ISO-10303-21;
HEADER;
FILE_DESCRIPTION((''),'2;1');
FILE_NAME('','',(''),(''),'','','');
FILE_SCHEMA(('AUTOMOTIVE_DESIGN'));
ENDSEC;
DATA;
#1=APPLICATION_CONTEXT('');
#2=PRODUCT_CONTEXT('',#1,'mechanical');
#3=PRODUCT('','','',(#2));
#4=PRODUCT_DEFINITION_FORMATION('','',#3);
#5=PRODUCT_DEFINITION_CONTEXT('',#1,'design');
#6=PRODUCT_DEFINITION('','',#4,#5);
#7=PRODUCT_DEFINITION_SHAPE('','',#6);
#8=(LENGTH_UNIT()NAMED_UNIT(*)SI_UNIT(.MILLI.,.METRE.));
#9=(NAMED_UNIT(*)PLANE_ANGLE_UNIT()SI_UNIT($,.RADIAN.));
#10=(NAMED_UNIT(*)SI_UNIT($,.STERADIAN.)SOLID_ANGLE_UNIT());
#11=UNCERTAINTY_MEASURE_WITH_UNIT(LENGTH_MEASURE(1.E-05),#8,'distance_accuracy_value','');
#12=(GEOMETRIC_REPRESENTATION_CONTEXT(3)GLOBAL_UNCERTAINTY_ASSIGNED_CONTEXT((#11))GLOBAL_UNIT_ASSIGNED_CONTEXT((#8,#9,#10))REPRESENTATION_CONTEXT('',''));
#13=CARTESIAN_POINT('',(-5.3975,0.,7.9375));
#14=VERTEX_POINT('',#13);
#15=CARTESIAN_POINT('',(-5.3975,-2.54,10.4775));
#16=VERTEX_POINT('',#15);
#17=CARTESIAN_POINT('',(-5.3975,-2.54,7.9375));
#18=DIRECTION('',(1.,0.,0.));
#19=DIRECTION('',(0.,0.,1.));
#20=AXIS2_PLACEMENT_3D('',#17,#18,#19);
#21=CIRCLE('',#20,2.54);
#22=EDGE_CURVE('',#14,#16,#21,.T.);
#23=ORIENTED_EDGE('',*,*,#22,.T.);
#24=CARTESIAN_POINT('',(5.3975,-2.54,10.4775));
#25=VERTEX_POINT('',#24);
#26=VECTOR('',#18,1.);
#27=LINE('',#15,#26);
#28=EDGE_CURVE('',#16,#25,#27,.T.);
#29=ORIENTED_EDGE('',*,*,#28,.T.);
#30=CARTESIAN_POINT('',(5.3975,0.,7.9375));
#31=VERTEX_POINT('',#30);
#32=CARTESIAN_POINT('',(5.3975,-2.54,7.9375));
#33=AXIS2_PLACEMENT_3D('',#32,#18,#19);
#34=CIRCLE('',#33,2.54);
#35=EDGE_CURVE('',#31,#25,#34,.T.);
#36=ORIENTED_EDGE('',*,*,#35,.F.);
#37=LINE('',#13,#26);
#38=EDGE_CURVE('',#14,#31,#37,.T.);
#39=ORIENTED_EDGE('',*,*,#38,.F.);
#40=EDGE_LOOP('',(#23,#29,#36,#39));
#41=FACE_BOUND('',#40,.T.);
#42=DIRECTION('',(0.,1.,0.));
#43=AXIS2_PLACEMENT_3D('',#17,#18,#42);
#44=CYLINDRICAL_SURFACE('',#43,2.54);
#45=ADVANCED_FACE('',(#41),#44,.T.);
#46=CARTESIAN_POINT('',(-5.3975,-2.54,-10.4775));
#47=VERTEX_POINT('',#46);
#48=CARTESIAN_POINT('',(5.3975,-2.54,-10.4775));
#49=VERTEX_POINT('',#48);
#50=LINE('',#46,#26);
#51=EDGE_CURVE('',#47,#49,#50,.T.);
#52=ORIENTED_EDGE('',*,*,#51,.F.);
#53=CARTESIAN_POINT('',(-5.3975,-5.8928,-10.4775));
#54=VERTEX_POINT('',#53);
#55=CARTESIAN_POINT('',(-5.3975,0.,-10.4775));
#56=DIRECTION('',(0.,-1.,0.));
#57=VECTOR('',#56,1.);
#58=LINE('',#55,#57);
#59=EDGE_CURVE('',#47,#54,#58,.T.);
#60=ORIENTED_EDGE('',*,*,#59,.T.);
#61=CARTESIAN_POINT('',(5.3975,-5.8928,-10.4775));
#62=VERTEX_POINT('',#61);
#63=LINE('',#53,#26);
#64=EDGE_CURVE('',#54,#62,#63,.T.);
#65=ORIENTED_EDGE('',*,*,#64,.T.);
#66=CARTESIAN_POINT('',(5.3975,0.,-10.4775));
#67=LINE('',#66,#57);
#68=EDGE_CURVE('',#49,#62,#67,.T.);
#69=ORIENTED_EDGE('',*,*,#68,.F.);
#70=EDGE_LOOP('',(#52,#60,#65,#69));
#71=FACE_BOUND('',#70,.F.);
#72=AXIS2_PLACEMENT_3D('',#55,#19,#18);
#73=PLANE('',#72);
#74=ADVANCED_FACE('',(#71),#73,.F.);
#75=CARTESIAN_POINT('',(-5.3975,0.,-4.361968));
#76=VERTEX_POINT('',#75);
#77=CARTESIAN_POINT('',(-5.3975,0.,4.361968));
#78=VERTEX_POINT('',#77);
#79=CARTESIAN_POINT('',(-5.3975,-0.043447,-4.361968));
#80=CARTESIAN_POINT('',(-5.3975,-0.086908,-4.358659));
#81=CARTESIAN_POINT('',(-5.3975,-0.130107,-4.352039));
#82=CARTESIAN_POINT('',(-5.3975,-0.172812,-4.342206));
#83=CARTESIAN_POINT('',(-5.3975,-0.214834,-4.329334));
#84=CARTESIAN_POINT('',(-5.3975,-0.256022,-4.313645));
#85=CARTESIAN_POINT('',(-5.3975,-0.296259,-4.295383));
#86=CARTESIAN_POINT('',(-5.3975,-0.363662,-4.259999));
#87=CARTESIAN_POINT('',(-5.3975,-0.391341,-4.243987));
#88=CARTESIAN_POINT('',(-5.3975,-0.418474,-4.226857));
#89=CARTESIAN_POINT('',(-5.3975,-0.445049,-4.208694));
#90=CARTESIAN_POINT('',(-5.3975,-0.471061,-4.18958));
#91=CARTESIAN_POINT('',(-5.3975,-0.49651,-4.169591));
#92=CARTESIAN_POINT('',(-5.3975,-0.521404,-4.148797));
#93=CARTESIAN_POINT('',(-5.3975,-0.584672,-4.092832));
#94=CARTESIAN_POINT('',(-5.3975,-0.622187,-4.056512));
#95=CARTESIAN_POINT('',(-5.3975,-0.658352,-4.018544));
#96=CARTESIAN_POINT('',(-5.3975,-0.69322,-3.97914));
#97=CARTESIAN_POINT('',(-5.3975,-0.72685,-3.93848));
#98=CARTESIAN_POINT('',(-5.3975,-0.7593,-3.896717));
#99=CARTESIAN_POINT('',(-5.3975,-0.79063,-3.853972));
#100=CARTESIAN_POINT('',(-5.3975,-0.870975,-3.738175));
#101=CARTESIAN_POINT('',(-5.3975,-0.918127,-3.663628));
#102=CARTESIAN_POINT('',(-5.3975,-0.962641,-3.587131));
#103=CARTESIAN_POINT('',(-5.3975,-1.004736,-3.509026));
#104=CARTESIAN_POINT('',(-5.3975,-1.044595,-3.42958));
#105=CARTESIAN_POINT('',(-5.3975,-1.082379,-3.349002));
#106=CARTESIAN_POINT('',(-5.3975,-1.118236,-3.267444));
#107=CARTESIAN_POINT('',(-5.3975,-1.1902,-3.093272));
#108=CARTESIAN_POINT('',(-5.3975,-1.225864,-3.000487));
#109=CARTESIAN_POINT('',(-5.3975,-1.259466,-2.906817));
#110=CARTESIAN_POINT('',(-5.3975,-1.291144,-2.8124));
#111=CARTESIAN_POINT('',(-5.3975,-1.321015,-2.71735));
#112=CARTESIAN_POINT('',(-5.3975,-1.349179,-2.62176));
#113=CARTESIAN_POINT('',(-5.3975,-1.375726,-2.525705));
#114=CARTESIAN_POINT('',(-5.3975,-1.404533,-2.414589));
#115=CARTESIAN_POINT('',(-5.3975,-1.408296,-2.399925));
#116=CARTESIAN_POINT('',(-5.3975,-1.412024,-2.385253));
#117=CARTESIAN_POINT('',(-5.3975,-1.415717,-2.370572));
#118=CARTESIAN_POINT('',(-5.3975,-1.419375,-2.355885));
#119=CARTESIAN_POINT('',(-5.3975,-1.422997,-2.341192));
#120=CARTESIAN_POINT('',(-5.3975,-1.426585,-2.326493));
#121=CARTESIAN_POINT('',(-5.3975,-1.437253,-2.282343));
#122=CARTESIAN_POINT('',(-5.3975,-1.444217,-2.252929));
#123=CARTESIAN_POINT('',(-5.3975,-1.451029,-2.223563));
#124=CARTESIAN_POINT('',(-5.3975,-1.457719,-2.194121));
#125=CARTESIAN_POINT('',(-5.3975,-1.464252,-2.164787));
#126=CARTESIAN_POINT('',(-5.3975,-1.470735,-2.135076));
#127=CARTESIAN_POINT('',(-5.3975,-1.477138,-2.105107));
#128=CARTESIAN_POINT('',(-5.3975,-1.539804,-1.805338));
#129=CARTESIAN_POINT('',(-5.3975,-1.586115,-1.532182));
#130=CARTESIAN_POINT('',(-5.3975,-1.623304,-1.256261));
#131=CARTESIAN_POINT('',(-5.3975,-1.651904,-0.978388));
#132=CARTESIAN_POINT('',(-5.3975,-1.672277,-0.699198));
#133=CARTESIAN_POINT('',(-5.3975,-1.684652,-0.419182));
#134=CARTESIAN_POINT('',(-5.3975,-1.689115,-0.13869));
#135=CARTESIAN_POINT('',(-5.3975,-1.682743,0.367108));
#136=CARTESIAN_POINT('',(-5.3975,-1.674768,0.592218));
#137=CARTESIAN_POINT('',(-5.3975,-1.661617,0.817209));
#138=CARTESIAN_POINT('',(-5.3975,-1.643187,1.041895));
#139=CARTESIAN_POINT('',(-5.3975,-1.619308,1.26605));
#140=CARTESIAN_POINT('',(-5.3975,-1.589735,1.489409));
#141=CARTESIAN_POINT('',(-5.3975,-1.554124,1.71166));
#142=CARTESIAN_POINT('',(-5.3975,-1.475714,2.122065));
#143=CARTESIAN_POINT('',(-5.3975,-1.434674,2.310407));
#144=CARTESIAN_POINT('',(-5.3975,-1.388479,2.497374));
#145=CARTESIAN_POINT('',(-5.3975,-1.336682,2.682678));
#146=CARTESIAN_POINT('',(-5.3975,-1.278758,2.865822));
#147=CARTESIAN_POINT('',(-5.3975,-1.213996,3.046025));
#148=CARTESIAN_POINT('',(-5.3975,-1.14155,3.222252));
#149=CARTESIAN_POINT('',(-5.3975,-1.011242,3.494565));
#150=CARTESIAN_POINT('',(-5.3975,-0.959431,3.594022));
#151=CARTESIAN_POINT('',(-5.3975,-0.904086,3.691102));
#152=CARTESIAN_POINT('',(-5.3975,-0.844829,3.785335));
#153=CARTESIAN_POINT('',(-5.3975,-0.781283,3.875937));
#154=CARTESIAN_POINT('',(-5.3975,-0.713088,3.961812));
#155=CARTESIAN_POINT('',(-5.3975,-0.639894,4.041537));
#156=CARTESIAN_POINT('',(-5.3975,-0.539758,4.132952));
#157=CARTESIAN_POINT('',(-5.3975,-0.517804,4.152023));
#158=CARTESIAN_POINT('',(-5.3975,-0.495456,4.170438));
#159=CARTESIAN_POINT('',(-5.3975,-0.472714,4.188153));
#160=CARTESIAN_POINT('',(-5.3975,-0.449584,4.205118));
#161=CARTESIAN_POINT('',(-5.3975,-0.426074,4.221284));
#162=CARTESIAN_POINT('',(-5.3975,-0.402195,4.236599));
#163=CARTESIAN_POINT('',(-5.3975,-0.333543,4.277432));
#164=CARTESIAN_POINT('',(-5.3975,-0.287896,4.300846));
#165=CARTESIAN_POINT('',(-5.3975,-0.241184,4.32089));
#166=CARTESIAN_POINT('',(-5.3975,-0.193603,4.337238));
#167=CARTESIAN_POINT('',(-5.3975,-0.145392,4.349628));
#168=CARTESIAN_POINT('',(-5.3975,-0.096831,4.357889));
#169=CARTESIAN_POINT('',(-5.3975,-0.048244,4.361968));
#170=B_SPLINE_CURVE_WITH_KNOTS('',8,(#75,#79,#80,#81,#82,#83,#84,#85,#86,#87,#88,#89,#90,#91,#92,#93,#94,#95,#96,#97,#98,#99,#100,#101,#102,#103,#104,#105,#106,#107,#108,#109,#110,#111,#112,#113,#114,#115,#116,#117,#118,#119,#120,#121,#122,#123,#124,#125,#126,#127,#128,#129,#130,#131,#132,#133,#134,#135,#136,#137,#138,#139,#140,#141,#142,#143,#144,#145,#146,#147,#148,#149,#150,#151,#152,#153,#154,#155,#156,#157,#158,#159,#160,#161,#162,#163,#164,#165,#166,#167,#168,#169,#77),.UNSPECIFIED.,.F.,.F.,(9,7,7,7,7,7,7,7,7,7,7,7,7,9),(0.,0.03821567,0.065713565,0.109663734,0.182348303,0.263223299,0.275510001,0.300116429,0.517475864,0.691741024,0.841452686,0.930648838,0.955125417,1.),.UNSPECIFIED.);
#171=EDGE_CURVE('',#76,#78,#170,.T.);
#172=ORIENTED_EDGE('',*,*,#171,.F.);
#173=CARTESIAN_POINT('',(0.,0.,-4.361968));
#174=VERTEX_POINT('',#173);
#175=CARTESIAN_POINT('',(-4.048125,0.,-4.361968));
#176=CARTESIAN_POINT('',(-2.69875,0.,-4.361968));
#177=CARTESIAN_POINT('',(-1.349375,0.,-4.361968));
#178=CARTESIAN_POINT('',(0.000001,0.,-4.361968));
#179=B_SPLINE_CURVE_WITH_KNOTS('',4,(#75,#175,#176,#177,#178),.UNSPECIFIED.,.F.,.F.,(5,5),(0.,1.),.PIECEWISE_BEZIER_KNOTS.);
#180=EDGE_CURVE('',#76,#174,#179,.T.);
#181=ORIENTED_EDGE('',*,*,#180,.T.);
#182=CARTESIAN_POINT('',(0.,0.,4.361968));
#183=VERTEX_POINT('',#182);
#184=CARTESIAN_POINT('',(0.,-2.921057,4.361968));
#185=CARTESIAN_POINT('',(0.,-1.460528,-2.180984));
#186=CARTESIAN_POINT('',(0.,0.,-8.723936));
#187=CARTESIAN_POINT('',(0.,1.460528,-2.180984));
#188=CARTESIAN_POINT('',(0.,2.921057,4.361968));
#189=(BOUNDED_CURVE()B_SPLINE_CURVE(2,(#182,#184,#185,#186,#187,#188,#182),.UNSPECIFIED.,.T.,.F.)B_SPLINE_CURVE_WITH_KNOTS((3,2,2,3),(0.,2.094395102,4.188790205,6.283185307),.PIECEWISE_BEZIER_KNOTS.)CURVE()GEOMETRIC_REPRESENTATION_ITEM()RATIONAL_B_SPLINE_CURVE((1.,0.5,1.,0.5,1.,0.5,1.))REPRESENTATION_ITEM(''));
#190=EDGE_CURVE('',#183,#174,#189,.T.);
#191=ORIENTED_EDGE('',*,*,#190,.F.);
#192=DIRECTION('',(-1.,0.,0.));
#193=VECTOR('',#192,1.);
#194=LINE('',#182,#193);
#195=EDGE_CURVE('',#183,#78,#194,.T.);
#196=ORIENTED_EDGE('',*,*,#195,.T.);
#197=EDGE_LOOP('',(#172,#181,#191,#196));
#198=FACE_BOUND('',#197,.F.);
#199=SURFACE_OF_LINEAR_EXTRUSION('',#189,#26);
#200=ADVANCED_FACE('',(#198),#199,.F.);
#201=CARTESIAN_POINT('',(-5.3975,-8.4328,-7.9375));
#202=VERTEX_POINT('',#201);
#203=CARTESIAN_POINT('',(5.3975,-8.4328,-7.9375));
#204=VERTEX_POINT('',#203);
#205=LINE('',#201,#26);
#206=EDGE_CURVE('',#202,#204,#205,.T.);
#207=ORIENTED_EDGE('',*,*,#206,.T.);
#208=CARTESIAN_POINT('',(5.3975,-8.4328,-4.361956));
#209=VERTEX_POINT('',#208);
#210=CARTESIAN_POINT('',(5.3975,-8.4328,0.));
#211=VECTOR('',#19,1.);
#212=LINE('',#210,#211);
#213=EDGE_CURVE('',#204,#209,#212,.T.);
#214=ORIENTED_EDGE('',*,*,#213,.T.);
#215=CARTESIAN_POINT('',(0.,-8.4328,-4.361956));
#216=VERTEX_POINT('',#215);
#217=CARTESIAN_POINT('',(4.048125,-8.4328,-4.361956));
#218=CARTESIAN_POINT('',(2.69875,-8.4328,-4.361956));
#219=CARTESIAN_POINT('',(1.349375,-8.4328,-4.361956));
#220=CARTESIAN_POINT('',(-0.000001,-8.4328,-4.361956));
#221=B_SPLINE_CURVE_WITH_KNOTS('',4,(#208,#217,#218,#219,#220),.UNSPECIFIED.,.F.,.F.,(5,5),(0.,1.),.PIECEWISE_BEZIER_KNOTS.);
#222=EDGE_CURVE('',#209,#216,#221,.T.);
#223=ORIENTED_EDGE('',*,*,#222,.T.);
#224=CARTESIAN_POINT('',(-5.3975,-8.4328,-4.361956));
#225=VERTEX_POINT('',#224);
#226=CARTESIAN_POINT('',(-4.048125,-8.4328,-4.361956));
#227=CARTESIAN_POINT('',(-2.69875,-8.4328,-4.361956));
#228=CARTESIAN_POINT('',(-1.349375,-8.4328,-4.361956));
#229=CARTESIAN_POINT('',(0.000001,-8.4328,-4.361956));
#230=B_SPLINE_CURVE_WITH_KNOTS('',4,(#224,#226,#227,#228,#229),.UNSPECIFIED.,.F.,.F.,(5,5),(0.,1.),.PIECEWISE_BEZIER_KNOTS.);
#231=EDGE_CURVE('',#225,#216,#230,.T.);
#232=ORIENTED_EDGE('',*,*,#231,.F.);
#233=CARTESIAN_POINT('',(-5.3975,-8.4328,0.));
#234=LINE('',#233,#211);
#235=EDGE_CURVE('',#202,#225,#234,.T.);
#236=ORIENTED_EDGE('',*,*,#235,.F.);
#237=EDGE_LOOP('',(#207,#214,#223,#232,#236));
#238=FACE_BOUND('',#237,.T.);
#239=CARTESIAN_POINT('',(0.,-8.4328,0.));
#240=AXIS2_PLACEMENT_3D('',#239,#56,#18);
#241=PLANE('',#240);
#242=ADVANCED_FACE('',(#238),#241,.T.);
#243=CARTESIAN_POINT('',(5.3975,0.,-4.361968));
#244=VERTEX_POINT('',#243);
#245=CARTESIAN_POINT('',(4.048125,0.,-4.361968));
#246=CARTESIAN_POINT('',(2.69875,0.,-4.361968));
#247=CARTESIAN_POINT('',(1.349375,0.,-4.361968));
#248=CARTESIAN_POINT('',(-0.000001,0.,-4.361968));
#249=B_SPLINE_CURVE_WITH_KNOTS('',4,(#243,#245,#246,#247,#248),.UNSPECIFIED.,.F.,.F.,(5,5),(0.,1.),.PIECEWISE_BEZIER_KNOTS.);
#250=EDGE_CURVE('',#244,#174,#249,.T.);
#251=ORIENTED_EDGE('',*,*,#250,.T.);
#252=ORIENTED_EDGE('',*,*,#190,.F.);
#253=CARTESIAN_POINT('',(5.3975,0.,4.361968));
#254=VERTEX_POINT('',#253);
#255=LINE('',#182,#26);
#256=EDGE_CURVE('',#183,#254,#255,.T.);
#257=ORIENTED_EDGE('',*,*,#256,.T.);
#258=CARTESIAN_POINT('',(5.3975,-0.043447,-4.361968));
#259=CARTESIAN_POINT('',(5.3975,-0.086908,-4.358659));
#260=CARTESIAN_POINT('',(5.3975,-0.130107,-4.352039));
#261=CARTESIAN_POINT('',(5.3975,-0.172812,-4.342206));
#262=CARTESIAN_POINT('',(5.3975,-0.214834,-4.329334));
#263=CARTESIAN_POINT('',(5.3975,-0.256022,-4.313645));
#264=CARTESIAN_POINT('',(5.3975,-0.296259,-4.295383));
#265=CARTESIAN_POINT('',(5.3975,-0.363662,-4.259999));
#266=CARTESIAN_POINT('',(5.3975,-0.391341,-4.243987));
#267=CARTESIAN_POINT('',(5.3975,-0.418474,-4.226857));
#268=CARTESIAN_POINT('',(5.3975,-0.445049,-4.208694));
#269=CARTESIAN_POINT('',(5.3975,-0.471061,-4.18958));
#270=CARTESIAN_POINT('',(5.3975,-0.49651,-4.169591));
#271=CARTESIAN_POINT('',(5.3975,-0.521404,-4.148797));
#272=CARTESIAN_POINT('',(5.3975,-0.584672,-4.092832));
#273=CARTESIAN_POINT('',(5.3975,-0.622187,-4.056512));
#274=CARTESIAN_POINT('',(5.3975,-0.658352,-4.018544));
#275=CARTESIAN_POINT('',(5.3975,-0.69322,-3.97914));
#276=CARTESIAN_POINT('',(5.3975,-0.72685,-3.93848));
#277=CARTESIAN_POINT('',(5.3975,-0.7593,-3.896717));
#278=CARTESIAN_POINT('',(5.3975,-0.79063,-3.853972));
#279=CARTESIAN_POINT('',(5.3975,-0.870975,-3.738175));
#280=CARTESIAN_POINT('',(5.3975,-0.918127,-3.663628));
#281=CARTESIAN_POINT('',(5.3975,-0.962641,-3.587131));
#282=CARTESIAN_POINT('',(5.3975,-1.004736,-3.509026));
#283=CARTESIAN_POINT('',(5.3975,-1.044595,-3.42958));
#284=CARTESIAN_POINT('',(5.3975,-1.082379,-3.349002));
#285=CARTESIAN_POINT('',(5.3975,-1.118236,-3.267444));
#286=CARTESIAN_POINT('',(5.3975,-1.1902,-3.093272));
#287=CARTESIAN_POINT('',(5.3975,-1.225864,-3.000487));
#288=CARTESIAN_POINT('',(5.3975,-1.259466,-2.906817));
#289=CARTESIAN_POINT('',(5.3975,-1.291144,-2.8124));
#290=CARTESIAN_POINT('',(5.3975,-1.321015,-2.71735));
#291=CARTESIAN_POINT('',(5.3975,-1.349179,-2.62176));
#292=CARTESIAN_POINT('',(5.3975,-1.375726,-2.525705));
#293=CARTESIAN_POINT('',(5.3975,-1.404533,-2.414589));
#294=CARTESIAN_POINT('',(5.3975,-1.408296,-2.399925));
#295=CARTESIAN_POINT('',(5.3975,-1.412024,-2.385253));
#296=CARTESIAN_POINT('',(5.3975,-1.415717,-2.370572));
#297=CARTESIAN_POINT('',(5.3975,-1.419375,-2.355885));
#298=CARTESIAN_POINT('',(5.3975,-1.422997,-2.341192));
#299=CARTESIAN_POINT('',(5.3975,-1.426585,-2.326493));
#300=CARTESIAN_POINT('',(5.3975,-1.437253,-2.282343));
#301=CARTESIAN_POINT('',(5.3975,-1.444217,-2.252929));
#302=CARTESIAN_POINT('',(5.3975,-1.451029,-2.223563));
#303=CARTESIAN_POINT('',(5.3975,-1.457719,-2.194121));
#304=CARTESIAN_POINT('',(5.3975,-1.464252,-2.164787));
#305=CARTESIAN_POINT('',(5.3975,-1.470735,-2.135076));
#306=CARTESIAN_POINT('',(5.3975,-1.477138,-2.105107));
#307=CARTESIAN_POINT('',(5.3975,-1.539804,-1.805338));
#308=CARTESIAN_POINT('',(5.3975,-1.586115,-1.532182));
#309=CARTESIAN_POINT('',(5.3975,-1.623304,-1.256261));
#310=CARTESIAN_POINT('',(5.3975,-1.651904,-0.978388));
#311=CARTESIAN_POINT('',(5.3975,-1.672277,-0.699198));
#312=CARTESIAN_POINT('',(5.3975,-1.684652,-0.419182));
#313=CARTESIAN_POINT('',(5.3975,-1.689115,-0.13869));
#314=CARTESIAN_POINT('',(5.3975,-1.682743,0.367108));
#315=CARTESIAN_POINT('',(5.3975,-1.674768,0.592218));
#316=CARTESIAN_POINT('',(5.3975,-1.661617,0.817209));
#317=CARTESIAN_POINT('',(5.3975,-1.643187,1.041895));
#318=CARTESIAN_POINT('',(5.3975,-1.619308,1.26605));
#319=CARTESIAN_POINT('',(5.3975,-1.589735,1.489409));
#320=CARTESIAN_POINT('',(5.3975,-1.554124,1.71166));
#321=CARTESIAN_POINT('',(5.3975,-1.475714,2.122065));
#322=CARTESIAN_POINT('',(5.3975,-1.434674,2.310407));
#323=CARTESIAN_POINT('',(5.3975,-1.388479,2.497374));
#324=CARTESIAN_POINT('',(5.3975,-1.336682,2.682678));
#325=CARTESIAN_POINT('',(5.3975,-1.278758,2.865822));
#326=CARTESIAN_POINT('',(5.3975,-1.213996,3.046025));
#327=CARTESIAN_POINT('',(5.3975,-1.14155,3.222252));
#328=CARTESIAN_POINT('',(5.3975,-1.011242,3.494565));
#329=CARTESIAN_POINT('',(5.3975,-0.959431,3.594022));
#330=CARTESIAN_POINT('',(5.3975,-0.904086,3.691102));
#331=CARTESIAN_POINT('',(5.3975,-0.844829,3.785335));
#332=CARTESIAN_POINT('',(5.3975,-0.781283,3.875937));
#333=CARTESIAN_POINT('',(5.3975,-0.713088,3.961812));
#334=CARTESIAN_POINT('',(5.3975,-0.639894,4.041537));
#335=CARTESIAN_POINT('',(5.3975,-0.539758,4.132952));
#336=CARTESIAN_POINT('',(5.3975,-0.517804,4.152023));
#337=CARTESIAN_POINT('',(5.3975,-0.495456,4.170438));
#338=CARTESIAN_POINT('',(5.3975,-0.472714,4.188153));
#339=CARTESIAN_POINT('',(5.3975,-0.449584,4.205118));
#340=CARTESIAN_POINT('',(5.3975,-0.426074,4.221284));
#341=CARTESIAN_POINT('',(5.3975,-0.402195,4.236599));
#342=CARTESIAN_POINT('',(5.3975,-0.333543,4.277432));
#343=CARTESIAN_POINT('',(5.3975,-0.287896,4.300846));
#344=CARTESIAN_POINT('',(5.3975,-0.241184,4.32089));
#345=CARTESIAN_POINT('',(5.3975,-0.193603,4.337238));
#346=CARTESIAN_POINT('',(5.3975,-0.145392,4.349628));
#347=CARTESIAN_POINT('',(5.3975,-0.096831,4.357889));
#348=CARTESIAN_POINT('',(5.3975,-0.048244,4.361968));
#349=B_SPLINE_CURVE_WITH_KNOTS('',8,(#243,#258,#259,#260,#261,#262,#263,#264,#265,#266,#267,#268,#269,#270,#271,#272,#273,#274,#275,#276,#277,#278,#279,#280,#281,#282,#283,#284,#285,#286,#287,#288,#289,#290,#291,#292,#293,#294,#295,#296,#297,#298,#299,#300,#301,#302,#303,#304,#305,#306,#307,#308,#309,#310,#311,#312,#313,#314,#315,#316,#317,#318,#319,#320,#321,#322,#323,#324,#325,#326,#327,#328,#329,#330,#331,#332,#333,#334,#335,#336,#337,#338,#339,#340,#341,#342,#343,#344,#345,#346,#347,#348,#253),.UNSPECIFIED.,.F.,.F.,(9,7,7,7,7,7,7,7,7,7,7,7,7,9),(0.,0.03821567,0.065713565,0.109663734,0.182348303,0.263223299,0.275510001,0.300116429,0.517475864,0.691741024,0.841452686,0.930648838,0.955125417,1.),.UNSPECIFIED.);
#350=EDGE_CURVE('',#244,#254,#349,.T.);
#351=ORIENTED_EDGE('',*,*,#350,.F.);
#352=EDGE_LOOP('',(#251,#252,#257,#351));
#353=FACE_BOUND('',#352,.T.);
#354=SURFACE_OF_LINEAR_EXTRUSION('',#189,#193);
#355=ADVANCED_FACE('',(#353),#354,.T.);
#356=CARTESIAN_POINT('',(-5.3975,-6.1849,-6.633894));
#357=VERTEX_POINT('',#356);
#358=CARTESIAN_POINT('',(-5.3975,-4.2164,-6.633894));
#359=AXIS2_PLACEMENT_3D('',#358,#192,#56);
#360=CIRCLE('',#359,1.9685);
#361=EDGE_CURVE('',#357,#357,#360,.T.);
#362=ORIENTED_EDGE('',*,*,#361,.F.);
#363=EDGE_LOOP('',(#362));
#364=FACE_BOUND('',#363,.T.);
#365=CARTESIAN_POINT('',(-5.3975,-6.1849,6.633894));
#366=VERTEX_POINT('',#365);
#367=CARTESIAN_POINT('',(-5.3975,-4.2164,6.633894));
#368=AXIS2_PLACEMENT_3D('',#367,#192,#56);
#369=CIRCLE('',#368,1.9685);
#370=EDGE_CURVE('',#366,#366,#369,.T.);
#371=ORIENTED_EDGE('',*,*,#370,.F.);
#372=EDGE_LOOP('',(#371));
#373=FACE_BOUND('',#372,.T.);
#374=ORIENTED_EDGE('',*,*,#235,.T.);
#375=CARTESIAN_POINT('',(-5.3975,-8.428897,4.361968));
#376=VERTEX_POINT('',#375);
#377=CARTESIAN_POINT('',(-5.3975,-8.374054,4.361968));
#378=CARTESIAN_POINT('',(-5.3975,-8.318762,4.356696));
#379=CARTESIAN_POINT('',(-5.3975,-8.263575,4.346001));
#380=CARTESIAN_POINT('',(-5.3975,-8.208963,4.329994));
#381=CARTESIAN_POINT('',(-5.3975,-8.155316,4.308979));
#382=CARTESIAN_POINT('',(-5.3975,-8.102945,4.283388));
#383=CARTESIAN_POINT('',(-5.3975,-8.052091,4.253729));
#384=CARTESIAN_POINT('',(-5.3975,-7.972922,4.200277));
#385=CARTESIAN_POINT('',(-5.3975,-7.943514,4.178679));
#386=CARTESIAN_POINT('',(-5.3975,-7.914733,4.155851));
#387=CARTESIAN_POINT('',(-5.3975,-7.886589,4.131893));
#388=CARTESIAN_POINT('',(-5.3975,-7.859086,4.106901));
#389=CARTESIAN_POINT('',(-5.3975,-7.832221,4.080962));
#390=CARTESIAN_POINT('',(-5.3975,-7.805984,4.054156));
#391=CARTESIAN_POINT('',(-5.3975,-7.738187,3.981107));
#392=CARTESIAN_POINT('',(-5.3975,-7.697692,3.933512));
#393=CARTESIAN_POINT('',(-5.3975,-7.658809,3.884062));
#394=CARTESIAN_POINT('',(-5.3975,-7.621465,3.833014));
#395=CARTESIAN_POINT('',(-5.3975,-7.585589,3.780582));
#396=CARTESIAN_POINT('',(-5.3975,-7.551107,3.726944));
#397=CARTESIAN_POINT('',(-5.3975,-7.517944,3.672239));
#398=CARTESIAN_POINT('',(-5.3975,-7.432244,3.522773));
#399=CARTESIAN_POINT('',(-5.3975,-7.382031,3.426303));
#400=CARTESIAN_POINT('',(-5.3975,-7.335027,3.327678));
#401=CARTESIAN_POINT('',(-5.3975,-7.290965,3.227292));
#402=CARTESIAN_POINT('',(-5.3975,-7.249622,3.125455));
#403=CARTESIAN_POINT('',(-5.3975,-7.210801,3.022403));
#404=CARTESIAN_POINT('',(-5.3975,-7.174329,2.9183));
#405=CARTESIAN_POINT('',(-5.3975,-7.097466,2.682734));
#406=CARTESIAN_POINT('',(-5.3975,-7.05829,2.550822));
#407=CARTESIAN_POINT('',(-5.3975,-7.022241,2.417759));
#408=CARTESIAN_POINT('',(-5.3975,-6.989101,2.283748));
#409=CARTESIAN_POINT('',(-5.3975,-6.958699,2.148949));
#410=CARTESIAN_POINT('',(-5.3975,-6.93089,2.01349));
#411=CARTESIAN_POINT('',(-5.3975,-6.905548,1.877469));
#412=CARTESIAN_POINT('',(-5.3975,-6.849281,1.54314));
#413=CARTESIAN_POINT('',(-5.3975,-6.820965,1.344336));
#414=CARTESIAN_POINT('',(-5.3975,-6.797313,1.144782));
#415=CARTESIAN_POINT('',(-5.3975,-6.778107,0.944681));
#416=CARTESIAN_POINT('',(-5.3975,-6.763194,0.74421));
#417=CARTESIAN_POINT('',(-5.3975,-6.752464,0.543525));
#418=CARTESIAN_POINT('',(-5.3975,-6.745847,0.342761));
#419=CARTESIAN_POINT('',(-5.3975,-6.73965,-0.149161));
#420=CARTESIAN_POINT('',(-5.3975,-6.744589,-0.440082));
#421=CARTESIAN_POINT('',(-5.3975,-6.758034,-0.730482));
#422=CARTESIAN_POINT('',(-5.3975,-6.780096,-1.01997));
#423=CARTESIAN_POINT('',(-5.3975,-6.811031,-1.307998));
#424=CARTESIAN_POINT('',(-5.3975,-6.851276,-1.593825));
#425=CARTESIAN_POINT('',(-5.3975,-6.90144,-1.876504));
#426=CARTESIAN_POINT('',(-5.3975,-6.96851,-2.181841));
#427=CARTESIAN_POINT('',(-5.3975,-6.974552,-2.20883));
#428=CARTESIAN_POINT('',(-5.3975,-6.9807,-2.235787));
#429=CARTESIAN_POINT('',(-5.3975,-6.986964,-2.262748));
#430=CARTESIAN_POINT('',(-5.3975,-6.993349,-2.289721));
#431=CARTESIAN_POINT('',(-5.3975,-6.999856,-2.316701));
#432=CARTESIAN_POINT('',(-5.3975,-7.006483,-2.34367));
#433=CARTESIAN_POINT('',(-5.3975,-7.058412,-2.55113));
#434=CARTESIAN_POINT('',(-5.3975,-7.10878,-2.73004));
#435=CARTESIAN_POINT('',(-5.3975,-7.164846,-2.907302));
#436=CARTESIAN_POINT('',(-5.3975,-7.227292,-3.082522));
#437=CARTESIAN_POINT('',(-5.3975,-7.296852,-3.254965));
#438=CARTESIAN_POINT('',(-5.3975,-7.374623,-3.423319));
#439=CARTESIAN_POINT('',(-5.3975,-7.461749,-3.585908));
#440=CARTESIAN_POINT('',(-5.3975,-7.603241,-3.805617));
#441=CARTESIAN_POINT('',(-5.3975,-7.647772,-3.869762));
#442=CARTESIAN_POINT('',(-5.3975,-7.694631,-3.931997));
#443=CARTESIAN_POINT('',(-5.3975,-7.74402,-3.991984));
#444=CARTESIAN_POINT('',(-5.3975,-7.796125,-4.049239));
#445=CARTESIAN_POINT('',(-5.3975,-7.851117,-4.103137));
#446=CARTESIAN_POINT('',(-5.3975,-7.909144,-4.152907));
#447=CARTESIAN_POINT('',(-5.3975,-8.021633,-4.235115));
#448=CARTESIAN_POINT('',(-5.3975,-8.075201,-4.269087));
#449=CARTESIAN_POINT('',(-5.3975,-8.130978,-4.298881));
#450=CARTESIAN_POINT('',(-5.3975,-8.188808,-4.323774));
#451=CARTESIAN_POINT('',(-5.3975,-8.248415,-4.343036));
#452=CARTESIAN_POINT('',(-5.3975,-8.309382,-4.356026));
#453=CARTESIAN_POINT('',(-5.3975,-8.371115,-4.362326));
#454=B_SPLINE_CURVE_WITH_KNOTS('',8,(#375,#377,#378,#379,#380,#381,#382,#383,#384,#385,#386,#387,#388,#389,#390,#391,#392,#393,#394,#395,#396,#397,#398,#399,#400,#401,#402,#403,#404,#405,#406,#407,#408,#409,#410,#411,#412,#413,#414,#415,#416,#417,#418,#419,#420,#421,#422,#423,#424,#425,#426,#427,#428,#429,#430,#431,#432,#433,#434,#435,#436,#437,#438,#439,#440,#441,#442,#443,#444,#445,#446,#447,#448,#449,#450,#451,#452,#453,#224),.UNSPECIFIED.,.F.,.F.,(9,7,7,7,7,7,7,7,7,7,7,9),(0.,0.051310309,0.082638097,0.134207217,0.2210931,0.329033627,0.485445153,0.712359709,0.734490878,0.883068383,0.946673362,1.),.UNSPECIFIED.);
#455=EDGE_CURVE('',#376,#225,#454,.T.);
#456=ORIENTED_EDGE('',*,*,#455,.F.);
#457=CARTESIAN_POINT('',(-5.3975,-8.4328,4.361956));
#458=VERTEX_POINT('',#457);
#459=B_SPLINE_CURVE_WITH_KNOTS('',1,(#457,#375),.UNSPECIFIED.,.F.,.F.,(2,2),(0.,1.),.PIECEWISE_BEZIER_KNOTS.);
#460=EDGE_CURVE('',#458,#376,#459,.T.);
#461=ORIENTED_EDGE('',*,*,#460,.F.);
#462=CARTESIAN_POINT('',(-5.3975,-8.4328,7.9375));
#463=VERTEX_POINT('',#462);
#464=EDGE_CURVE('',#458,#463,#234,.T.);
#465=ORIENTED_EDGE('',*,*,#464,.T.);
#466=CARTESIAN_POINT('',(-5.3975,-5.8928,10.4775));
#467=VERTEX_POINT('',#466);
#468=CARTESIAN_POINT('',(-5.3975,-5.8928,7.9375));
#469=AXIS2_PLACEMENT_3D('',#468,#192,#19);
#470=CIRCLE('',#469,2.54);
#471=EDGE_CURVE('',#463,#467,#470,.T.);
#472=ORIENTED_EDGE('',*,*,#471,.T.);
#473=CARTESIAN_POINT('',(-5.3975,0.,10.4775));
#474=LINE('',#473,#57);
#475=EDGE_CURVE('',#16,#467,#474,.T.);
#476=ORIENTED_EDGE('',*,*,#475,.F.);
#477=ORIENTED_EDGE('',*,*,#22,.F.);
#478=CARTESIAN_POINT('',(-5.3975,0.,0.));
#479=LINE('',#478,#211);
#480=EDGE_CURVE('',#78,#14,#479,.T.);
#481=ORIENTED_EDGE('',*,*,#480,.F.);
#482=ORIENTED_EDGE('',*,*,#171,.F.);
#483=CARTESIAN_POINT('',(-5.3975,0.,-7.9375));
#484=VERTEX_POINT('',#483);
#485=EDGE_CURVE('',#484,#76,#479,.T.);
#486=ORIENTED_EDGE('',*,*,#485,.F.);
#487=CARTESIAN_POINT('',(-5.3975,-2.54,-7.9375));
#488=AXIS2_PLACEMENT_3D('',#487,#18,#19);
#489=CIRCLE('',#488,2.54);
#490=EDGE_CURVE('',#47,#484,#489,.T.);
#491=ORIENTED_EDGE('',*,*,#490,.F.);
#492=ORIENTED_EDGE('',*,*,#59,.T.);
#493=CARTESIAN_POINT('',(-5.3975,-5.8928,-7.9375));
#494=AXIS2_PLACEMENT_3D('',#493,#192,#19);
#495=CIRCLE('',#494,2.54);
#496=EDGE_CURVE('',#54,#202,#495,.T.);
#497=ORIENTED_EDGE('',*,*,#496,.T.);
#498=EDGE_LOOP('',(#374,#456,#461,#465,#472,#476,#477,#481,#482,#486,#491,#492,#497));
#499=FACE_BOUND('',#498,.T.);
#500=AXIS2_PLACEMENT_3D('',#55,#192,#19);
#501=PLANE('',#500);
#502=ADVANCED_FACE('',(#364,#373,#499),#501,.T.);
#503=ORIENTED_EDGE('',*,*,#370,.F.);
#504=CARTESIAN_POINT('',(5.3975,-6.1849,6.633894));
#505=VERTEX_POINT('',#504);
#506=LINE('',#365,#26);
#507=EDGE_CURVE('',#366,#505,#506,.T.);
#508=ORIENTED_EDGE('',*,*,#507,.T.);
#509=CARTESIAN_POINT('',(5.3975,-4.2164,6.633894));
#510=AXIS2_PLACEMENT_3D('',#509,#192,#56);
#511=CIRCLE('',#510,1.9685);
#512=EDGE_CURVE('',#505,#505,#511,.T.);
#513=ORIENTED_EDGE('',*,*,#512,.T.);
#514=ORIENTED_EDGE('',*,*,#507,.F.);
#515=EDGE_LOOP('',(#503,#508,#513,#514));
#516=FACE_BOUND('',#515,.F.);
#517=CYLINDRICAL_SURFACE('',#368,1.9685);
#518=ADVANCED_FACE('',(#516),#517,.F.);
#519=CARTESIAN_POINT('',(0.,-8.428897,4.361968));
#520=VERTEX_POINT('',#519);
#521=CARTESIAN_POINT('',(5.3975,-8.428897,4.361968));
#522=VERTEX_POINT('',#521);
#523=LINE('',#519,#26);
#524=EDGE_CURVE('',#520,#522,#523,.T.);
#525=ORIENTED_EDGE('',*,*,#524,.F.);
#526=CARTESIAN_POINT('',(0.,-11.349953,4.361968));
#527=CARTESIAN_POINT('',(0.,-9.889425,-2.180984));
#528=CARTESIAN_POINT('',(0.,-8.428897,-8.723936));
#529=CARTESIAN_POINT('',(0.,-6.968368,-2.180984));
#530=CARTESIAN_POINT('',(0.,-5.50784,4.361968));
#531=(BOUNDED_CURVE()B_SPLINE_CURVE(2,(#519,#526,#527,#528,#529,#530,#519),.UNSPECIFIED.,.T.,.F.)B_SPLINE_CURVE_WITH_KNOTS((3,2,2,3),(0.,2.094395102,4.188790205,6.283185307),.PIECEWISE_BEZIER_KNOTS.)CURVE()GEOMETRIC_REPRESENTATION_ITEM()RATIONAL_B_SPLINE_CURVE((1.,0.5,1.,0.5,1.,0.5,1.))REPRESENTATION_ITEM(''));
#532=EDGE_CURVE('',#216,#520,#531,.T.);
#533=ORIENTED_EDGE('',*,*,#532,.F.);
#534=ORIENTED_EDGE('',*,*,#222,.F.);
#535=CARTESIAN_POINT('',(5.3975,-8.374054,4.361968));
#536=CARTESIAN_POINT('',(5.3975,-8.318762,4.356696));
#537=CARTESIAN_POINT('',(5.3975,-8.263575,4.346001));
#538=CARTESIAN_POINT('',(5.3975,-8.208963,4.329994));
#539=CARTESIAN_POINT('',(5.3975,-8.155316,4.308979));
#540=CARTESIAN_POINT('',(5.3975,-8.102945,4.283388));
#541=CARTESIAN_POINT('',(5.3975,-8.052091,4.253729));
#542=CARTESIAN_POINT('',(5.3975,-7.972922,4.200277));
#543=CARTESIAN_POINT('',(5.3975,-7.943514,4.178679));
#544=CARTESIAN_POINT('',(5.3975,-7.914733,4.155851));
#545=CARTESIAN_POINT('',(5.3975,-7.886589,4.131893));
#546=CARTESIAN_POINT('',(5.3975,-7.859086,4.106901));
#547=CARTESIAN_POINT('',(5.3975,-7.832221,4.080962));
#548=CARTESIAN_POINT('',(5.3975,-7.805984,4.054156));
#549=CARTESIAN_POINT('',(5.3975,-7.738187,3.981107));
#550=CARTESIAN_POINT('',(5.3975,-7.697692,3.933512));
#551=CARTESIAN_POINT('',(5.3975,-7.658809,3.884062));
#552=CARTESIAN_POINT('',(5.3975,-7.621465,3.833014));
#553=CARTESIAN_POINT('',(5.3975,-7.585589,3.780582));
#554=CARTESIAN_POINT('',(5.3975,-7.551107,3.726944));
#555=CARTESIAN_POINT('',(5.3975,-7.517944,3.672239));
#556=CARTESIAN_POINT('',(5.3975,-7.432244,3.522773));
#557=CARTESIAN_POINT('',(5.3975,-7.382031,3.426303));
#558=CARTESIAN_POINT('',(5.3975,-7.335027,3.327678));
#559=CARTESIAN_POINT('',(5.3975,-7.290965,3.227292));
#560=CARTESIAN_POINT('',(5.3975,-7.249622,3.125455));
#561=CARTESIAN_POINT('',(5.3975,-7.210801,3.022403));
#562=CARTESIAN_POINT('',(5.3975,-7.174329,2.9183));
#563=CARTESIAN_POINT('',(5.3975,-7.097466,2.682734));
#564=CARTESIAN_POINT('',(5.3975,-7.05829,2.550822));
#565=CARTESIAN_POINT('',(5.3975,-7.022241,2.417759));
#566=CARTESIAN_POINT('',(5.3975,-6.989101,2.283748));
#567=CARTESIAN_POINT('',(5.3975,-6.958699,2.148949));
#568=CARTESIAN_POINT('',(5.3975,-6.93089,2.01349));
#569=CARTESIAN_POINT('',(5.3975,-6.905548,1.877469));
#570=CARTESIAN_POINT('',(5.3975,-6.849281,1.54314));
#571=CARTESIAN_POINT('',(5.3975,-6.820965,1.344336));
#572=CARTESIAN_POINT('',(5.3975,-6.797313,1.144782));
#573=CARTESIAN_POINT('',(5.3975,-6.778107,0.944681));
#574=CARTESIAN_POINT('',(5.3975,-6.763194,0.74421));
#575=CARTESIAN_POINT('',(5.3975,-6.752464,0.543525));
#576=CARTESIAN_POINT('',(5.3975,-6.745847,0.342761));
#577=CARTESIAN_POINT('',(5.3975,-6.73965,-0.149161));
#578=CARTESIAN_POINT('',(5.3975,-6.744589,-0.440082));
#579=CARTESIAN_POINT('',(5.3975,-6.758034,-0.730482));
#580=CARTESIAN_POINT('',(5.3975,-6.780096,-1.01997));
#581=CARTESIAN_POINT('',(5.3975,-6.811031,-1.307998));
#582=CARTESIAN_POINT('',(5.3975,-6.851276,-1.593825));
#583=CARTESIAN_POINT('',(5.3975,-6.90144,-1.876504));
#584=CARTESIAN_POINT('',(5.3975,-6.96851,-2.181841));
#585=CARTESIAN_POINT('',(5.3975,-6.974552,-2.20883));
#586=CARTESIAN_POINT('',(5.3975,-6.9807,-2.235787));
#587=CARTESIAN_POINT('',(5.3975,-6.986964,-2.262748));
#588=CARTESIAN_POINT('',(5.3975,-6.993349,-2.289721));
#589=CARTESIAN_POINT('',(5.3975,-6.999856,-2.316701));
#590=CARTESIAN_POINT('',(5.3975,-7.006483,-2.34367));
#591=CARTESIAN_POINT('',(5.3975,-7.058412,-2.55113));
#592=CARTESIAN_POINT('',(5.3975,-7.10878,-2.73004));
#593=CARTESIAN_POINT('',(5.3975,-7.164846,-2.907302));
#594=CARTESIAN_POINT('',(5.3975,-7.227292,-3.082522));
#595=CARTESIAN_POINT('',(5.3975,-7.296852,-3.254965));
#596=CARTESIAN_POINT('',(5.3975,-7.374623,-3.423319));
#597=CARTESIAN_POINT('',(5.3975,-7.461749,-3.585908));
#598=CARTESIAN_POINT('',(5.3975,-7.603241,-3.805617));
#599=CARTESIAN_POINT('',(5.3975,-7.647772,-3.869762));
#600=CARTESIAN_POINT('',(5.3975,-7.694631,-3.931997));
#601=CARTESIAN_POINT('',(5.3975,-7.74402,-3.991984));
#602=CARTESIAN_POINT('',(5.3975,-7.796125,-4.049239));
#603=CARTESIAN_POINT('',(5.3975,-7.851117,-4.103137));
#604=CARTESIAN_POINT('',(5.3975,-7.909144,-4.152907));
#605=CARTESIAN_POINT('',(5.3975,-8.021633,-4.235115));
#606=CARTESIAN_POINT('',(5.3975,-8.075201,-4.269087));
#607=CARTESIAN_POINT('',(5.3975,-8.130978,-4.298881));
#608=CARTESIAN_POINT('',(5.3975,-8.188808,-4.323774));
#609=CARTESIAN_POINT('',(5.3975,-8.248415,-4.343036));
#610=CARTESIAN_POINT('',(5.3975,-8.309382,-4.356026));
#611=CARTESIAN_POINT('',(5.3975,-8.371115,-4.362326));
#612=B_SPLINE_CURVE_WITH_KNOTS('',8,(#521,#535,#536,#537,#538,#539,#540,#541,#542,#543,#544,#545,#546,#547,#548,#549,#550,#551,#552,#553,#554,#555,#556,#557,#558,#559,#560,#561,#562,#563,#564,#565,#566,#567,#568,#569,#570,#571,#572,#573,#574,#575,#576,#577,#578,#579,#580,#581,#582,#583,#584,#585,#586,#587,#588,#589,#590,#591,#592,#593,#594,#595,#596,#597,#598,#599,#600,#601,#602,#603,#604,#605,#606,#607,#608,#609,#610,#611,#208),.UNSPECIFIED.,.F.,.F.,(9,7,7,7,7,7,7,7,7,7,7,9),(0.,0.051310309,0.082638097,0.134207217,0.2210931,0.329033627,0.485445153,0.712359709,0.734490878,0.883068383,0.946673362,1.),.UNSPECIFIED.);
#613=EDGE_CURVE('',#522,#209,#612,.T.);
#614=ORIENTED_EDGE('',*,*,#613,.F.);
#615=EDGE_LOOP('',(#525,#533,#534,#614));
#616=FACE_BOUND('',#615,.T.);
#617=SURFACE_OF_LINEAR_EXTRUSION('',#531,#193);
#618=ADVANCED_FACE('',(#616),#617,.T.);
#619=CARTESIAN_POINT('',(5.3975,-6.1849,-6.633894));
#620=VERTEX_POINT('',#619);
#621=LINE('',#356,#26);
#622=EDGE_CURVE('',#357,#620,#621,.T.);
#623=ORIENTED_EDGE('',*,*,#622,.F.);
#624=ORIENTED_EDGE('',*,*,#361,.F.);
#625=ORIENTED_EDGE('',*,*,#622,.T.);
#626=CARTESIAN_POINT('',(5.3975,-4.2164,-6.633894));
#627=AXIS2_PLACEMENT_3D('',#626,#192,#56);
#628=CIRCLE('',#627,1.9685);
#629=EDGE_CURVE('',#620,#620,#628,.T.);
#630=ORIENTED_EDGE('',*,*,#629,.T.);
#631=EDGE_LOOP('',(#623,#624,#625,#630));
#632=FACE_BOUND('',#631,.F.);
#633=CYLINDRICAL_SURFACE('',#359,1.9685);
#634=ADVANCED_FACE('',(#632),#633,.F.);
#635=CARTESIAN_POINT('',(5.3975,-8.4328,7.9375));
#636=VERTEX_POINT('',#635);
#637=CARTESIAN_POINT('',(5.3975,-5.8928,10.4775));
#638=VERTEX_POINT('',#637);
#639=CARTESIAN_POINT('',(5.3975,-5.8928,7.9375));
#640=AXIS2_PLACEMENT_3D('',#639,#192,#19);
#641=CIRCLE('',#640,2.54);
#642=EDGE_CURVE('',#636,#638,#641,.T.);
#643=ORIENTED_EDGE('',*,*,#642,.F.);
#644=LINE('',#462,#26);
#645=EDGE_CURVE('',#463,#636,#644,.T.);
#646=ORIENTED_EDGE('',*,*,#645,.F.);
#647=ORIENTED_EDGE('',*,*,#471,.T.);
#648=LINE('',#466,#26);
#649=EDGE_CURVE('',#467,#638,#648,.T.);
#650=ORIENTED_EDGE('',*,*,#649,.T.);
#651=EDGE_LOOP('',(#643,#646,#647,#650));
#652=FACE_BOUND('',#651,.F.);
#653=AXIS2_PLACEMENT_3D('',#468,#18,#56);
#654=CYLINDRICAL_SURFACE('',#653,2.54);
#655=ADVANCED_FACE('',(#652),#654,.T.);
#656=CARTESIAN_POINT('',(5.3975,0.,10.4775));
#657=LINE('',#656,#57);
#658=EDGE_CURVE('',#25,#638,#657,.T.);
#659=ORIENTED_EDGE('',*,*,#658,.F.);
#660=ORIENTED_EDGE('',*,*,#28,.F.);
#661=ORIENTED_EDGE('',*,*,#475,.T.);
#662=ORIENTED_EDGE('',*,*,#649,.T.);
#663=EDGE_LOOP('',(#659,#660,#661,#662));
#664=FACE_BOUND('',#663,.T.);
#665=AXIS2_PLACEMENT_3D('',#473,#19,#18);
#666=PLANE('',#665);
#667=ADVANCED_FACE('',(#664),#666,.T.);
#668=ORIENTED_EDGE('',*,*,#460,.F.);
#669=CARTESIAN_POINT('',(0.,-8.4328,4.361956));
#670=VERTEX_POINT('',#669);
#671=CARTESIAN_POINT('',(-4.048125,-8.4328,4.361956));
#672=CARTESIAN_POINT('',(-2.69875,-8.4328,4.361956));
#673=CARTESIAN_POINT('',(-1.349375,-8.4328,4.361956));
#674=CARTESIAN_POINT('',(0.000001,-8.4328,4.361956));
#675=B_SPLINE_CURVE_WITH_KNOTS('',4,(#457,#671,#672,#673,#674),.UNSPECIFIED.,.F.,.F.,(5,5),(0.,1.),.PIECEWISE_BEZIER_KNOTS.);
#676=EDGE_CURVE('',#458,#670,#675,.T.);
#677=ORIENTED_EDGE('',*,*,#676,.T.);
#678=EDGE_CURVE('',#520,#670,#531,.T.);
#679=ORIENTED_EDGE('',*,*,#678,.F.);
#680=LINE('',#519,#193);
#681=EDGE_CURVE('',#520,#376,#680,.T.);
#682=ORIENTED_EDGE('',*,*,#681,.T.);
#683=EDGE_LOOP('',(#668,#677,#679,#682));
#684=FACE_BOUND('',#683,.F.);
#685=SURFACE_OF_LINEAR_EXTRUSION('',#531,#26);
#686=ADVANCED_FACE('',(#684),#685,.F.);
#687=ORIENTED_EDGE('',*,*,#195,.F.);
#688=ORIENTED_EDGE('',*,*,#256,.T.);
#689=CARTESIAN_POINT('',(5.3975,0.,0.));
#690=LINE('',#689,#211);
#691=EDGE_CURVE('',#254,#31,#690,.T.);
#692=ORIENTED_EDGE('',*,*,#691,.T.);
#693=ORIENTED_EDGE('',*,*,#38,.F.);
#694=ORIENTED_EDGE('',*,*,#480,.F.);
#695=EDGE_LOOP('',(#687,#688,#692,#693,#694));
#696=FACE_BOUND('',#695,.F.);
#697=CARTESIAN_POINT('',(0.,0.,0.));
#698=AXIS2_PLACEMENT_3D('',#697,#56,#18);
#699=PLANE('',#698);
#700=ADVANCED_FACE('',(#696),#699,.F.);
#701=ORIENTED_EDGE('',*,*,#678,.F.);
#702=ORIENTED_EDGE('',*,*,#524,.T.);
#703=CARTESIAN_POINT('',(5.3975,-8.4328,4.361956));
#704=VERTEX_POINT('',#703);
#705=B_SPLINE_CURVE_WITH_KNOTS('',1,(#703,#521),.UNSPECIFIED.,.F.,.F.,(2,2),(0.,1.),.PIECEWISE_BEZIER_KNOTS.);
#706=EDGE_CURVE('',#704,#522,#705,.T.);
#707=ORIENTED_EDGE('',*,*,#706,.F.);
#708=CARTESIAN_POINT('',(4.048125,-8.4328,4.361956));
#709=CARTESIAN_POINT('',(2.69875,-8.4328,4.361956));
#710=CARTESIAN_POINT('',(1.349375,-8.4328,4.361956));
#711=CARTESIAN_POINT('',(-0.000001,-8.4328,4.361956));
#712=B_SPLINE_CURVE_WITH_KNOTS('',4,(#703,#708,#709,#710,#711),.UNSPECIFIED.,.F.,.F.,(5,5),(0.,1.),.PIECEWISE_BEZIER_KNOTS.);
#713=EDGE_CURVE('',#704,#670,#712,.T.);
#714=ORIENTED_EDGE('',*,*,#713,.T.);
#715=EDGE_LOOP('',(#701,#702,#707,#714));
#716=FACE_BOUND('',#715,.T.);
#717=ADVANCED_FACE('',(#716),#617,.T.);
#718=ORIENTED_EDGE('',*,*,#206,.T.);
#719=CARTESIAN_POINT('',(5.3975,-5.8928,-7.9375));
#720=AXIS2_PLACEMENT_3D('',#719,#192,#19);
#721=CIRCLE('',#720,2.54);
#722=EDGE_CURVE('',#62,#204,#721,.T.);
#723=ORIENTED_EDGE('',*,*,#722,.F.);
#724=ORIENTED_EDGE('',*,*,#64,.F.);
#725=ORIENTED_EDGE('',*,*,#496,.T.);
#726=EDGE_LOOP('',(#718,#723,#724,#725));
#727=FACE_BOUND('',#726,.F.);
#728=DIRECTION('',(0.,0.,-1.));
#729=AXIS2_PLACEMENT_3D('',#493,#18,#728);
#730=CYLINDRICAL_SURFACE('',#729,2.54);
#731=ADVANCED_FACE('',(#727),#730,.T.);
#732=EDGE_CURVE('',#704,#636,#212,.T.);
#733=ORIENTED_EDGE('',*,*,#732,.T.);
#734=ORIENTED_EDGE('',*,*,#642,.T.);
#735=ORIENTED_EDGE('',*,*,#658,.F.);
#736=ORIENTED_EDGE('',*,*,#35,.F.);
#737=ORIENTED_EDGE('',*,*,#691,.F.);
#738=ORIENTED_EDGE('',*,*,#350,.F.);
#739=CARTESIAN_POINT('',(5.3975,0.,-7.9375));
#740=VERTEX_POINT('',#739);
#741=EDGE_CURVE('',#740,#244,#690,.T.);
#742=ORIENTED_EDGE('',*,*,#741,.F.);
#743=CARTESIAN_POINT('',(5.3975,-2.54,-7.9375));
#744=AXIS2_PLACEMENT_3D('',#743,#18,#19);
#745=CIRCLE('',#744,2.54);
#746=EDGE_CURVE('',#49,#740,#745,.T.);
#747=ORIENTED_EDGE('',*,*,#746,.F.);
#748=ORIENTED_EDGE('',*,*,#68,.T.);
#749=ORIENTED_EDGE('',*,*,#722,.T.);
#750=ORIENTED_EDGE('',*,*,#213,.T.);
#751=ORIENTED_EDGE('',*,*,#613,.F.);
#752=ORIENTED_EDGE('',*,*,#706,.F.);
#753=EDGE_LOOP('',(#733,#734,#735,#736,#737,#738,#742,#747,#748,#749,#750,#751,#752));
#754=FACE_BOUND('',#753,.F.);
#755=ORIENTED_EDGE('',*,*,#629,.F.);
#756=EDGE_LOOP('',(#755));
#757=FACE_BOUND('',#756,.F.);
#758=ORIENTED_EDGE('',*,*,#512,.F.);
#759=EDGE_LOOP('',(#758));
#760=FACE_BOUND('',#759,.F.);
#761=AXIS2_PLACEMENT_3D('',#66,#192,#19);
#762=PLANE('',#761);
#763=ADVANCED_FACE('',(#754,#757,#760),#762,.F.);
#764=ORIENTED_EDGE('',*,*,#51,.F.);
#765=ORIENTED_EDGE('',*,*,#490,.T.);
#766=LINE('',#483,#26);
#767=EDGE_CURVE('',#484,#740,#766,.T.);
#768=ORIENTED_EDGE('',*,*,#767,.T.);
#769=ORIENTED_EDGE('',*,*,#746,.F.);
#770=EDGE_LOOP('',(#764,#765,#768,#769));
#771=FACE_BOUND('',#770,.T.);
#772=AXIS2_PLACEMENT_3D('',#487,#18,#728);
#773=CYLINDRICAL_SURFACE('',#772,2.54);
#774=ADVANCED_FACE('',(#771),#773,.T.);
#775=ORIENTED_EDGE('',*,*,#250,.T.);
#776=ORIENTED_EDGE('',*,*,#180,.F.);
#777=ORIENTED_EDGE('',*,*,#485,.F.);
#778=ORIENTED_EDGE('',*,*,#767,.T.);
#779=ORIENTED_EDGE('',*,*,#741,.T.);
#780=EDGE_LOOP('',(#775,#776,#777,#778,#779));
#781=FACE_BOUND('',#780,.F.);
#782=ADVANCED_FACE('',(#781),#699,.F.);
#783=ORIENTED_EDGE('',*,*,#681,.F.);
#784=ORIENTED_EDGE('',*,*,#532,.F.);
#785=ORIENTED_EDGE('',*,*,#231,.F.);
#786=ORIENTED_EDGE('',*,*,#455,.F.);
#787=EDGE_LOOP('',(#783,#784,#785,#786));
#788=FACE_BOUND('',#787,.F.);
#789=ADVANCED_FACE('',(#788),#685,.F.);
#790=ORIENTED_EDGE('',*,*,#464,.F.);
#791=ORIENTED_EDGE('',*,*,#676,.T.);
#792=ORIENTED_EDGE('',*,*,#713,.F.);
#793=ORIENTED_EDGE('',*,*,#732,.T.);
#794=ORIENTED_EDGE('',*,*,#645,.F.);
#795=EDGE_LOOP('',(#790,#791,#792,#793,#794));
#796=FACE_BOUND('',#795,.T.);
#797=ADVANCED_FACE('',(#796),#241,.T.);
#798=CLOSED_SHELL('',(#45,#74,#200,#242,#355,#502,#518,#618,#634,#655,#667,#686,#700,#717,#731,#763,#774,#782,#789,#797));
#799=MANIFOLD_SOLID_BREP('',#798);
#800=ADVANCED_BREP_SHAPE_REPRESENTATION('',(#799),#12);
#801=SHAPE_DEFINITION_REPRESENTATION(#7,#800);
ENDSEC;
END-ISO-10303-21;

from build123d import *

# Parameters (mm, degrees)
F0_W          = 10.795
F0_H          = 20.955
F1_DEPTH      = 8.4328
F2_R          = 1.9685
F3_DEPTH      = 26.924
F4_DEPTH      = 25.4
F5_R          = 2.54
F7_DEPTH      = 25.4
F7_DEPTH_BACK = 25.4


with BuildPart() as f1:
    # F0 (on Front) → F1 (new body)
    with BuildSketch(Plane.XZ):
        Rectangle(F0_W, F0_H)
    extrude(amount=F1_DEPTH)

    # F2 (on face) → F3 (cut)
    with BuildSketch(Plane(origin=(-5.3975, 0, 0), x_dir=(0, -1, 0), z_dir=(-1, 0, 0))):
        with Locations((4.2164, 6.6338940524)):
            Circle(F2_R)
    extrude(amount=-F3_DEPTH, mode=Mode.SUBTRACT)

    # F2 (on face) → F4 (cut)
    with BuildSketch(Plane(origin=(-5.3975, 0, 0), x_dir=(0, -1, 0), z_dir=(-1, 0, 0))):
        with Locations((4.2164, 6.6338940524)):
            Circle(F2_R)
        with Locations((4.2164, -6.6338940524)):
            Circle(F2_R)
    extrude(amount=-F4_DEPTH, mode=Mode.SUBTRACT)

    # F5
    f5_edges = [f1.edges().sort_by_distance(p)[0] for p in [
        (0, 0, 10.4775),
        (0, -8.4328, 10.4775),
        (0, 0, -10.4775),
        (0, -8.4328, -10.4775),
    ]]
    fillet(f5_edges, radius=F5_R)

    # F6 (on Right) → F7 (cut, two sides)
    with BuildSketch(Plane.YZ) as f7_sk:
        with BuildLine():
            add(Edge.make_bspline(
                [(0, 4.3619680218), (-2.9210566391, 4.3619680218), (-1.4605283196, -2.1809840109), (0, -8.7239360437), (1.4605283196, -2.1809840109), (2.9210566391, 4.3619680218), (0, 4.3619680218)],
                knots=[0, 0, 0, 2.0943951024, 2.0943951024, 4.1887902048, 4.1887902048, 6.2831853072, 6.2831853072, 6.2831853072], degree=2, weights=[1, 0.5, 1, 0.5, 1, 0.5, 1]))
        make_face()
        with BuildLine():
            add(Edge.make_bspline(
                [(-8.4288967773, 4.3619680218), (-11.3499534165, 4.3619680218), (-9.8894250969, -2.1809840109), (-8.4288967773, -8.7239360437), (-6.9683684578, -2.1809840109), (-5.5078401382, 4.3619680218), (-8.4288967773, 4.3619680218)],
                knots=[0, 0, 0, 2.0943951024, 2.0943951024, 4.1887902048, 4.1887902048, 6.2831853072, 6.2831853072, 6.2831853072], degree=2, weights=[1, 0.5, 1, 0.5, 1, 0.5, 1]))
        make_face()
    extrude(amount=-F7_DEPTH, mode=Mode.SUBTRACT)
    extrude(f7_sk.sketch, amount=F7_DEPTH_BACK, mode=Mode.SUBTRACT)


solid = f1.part
